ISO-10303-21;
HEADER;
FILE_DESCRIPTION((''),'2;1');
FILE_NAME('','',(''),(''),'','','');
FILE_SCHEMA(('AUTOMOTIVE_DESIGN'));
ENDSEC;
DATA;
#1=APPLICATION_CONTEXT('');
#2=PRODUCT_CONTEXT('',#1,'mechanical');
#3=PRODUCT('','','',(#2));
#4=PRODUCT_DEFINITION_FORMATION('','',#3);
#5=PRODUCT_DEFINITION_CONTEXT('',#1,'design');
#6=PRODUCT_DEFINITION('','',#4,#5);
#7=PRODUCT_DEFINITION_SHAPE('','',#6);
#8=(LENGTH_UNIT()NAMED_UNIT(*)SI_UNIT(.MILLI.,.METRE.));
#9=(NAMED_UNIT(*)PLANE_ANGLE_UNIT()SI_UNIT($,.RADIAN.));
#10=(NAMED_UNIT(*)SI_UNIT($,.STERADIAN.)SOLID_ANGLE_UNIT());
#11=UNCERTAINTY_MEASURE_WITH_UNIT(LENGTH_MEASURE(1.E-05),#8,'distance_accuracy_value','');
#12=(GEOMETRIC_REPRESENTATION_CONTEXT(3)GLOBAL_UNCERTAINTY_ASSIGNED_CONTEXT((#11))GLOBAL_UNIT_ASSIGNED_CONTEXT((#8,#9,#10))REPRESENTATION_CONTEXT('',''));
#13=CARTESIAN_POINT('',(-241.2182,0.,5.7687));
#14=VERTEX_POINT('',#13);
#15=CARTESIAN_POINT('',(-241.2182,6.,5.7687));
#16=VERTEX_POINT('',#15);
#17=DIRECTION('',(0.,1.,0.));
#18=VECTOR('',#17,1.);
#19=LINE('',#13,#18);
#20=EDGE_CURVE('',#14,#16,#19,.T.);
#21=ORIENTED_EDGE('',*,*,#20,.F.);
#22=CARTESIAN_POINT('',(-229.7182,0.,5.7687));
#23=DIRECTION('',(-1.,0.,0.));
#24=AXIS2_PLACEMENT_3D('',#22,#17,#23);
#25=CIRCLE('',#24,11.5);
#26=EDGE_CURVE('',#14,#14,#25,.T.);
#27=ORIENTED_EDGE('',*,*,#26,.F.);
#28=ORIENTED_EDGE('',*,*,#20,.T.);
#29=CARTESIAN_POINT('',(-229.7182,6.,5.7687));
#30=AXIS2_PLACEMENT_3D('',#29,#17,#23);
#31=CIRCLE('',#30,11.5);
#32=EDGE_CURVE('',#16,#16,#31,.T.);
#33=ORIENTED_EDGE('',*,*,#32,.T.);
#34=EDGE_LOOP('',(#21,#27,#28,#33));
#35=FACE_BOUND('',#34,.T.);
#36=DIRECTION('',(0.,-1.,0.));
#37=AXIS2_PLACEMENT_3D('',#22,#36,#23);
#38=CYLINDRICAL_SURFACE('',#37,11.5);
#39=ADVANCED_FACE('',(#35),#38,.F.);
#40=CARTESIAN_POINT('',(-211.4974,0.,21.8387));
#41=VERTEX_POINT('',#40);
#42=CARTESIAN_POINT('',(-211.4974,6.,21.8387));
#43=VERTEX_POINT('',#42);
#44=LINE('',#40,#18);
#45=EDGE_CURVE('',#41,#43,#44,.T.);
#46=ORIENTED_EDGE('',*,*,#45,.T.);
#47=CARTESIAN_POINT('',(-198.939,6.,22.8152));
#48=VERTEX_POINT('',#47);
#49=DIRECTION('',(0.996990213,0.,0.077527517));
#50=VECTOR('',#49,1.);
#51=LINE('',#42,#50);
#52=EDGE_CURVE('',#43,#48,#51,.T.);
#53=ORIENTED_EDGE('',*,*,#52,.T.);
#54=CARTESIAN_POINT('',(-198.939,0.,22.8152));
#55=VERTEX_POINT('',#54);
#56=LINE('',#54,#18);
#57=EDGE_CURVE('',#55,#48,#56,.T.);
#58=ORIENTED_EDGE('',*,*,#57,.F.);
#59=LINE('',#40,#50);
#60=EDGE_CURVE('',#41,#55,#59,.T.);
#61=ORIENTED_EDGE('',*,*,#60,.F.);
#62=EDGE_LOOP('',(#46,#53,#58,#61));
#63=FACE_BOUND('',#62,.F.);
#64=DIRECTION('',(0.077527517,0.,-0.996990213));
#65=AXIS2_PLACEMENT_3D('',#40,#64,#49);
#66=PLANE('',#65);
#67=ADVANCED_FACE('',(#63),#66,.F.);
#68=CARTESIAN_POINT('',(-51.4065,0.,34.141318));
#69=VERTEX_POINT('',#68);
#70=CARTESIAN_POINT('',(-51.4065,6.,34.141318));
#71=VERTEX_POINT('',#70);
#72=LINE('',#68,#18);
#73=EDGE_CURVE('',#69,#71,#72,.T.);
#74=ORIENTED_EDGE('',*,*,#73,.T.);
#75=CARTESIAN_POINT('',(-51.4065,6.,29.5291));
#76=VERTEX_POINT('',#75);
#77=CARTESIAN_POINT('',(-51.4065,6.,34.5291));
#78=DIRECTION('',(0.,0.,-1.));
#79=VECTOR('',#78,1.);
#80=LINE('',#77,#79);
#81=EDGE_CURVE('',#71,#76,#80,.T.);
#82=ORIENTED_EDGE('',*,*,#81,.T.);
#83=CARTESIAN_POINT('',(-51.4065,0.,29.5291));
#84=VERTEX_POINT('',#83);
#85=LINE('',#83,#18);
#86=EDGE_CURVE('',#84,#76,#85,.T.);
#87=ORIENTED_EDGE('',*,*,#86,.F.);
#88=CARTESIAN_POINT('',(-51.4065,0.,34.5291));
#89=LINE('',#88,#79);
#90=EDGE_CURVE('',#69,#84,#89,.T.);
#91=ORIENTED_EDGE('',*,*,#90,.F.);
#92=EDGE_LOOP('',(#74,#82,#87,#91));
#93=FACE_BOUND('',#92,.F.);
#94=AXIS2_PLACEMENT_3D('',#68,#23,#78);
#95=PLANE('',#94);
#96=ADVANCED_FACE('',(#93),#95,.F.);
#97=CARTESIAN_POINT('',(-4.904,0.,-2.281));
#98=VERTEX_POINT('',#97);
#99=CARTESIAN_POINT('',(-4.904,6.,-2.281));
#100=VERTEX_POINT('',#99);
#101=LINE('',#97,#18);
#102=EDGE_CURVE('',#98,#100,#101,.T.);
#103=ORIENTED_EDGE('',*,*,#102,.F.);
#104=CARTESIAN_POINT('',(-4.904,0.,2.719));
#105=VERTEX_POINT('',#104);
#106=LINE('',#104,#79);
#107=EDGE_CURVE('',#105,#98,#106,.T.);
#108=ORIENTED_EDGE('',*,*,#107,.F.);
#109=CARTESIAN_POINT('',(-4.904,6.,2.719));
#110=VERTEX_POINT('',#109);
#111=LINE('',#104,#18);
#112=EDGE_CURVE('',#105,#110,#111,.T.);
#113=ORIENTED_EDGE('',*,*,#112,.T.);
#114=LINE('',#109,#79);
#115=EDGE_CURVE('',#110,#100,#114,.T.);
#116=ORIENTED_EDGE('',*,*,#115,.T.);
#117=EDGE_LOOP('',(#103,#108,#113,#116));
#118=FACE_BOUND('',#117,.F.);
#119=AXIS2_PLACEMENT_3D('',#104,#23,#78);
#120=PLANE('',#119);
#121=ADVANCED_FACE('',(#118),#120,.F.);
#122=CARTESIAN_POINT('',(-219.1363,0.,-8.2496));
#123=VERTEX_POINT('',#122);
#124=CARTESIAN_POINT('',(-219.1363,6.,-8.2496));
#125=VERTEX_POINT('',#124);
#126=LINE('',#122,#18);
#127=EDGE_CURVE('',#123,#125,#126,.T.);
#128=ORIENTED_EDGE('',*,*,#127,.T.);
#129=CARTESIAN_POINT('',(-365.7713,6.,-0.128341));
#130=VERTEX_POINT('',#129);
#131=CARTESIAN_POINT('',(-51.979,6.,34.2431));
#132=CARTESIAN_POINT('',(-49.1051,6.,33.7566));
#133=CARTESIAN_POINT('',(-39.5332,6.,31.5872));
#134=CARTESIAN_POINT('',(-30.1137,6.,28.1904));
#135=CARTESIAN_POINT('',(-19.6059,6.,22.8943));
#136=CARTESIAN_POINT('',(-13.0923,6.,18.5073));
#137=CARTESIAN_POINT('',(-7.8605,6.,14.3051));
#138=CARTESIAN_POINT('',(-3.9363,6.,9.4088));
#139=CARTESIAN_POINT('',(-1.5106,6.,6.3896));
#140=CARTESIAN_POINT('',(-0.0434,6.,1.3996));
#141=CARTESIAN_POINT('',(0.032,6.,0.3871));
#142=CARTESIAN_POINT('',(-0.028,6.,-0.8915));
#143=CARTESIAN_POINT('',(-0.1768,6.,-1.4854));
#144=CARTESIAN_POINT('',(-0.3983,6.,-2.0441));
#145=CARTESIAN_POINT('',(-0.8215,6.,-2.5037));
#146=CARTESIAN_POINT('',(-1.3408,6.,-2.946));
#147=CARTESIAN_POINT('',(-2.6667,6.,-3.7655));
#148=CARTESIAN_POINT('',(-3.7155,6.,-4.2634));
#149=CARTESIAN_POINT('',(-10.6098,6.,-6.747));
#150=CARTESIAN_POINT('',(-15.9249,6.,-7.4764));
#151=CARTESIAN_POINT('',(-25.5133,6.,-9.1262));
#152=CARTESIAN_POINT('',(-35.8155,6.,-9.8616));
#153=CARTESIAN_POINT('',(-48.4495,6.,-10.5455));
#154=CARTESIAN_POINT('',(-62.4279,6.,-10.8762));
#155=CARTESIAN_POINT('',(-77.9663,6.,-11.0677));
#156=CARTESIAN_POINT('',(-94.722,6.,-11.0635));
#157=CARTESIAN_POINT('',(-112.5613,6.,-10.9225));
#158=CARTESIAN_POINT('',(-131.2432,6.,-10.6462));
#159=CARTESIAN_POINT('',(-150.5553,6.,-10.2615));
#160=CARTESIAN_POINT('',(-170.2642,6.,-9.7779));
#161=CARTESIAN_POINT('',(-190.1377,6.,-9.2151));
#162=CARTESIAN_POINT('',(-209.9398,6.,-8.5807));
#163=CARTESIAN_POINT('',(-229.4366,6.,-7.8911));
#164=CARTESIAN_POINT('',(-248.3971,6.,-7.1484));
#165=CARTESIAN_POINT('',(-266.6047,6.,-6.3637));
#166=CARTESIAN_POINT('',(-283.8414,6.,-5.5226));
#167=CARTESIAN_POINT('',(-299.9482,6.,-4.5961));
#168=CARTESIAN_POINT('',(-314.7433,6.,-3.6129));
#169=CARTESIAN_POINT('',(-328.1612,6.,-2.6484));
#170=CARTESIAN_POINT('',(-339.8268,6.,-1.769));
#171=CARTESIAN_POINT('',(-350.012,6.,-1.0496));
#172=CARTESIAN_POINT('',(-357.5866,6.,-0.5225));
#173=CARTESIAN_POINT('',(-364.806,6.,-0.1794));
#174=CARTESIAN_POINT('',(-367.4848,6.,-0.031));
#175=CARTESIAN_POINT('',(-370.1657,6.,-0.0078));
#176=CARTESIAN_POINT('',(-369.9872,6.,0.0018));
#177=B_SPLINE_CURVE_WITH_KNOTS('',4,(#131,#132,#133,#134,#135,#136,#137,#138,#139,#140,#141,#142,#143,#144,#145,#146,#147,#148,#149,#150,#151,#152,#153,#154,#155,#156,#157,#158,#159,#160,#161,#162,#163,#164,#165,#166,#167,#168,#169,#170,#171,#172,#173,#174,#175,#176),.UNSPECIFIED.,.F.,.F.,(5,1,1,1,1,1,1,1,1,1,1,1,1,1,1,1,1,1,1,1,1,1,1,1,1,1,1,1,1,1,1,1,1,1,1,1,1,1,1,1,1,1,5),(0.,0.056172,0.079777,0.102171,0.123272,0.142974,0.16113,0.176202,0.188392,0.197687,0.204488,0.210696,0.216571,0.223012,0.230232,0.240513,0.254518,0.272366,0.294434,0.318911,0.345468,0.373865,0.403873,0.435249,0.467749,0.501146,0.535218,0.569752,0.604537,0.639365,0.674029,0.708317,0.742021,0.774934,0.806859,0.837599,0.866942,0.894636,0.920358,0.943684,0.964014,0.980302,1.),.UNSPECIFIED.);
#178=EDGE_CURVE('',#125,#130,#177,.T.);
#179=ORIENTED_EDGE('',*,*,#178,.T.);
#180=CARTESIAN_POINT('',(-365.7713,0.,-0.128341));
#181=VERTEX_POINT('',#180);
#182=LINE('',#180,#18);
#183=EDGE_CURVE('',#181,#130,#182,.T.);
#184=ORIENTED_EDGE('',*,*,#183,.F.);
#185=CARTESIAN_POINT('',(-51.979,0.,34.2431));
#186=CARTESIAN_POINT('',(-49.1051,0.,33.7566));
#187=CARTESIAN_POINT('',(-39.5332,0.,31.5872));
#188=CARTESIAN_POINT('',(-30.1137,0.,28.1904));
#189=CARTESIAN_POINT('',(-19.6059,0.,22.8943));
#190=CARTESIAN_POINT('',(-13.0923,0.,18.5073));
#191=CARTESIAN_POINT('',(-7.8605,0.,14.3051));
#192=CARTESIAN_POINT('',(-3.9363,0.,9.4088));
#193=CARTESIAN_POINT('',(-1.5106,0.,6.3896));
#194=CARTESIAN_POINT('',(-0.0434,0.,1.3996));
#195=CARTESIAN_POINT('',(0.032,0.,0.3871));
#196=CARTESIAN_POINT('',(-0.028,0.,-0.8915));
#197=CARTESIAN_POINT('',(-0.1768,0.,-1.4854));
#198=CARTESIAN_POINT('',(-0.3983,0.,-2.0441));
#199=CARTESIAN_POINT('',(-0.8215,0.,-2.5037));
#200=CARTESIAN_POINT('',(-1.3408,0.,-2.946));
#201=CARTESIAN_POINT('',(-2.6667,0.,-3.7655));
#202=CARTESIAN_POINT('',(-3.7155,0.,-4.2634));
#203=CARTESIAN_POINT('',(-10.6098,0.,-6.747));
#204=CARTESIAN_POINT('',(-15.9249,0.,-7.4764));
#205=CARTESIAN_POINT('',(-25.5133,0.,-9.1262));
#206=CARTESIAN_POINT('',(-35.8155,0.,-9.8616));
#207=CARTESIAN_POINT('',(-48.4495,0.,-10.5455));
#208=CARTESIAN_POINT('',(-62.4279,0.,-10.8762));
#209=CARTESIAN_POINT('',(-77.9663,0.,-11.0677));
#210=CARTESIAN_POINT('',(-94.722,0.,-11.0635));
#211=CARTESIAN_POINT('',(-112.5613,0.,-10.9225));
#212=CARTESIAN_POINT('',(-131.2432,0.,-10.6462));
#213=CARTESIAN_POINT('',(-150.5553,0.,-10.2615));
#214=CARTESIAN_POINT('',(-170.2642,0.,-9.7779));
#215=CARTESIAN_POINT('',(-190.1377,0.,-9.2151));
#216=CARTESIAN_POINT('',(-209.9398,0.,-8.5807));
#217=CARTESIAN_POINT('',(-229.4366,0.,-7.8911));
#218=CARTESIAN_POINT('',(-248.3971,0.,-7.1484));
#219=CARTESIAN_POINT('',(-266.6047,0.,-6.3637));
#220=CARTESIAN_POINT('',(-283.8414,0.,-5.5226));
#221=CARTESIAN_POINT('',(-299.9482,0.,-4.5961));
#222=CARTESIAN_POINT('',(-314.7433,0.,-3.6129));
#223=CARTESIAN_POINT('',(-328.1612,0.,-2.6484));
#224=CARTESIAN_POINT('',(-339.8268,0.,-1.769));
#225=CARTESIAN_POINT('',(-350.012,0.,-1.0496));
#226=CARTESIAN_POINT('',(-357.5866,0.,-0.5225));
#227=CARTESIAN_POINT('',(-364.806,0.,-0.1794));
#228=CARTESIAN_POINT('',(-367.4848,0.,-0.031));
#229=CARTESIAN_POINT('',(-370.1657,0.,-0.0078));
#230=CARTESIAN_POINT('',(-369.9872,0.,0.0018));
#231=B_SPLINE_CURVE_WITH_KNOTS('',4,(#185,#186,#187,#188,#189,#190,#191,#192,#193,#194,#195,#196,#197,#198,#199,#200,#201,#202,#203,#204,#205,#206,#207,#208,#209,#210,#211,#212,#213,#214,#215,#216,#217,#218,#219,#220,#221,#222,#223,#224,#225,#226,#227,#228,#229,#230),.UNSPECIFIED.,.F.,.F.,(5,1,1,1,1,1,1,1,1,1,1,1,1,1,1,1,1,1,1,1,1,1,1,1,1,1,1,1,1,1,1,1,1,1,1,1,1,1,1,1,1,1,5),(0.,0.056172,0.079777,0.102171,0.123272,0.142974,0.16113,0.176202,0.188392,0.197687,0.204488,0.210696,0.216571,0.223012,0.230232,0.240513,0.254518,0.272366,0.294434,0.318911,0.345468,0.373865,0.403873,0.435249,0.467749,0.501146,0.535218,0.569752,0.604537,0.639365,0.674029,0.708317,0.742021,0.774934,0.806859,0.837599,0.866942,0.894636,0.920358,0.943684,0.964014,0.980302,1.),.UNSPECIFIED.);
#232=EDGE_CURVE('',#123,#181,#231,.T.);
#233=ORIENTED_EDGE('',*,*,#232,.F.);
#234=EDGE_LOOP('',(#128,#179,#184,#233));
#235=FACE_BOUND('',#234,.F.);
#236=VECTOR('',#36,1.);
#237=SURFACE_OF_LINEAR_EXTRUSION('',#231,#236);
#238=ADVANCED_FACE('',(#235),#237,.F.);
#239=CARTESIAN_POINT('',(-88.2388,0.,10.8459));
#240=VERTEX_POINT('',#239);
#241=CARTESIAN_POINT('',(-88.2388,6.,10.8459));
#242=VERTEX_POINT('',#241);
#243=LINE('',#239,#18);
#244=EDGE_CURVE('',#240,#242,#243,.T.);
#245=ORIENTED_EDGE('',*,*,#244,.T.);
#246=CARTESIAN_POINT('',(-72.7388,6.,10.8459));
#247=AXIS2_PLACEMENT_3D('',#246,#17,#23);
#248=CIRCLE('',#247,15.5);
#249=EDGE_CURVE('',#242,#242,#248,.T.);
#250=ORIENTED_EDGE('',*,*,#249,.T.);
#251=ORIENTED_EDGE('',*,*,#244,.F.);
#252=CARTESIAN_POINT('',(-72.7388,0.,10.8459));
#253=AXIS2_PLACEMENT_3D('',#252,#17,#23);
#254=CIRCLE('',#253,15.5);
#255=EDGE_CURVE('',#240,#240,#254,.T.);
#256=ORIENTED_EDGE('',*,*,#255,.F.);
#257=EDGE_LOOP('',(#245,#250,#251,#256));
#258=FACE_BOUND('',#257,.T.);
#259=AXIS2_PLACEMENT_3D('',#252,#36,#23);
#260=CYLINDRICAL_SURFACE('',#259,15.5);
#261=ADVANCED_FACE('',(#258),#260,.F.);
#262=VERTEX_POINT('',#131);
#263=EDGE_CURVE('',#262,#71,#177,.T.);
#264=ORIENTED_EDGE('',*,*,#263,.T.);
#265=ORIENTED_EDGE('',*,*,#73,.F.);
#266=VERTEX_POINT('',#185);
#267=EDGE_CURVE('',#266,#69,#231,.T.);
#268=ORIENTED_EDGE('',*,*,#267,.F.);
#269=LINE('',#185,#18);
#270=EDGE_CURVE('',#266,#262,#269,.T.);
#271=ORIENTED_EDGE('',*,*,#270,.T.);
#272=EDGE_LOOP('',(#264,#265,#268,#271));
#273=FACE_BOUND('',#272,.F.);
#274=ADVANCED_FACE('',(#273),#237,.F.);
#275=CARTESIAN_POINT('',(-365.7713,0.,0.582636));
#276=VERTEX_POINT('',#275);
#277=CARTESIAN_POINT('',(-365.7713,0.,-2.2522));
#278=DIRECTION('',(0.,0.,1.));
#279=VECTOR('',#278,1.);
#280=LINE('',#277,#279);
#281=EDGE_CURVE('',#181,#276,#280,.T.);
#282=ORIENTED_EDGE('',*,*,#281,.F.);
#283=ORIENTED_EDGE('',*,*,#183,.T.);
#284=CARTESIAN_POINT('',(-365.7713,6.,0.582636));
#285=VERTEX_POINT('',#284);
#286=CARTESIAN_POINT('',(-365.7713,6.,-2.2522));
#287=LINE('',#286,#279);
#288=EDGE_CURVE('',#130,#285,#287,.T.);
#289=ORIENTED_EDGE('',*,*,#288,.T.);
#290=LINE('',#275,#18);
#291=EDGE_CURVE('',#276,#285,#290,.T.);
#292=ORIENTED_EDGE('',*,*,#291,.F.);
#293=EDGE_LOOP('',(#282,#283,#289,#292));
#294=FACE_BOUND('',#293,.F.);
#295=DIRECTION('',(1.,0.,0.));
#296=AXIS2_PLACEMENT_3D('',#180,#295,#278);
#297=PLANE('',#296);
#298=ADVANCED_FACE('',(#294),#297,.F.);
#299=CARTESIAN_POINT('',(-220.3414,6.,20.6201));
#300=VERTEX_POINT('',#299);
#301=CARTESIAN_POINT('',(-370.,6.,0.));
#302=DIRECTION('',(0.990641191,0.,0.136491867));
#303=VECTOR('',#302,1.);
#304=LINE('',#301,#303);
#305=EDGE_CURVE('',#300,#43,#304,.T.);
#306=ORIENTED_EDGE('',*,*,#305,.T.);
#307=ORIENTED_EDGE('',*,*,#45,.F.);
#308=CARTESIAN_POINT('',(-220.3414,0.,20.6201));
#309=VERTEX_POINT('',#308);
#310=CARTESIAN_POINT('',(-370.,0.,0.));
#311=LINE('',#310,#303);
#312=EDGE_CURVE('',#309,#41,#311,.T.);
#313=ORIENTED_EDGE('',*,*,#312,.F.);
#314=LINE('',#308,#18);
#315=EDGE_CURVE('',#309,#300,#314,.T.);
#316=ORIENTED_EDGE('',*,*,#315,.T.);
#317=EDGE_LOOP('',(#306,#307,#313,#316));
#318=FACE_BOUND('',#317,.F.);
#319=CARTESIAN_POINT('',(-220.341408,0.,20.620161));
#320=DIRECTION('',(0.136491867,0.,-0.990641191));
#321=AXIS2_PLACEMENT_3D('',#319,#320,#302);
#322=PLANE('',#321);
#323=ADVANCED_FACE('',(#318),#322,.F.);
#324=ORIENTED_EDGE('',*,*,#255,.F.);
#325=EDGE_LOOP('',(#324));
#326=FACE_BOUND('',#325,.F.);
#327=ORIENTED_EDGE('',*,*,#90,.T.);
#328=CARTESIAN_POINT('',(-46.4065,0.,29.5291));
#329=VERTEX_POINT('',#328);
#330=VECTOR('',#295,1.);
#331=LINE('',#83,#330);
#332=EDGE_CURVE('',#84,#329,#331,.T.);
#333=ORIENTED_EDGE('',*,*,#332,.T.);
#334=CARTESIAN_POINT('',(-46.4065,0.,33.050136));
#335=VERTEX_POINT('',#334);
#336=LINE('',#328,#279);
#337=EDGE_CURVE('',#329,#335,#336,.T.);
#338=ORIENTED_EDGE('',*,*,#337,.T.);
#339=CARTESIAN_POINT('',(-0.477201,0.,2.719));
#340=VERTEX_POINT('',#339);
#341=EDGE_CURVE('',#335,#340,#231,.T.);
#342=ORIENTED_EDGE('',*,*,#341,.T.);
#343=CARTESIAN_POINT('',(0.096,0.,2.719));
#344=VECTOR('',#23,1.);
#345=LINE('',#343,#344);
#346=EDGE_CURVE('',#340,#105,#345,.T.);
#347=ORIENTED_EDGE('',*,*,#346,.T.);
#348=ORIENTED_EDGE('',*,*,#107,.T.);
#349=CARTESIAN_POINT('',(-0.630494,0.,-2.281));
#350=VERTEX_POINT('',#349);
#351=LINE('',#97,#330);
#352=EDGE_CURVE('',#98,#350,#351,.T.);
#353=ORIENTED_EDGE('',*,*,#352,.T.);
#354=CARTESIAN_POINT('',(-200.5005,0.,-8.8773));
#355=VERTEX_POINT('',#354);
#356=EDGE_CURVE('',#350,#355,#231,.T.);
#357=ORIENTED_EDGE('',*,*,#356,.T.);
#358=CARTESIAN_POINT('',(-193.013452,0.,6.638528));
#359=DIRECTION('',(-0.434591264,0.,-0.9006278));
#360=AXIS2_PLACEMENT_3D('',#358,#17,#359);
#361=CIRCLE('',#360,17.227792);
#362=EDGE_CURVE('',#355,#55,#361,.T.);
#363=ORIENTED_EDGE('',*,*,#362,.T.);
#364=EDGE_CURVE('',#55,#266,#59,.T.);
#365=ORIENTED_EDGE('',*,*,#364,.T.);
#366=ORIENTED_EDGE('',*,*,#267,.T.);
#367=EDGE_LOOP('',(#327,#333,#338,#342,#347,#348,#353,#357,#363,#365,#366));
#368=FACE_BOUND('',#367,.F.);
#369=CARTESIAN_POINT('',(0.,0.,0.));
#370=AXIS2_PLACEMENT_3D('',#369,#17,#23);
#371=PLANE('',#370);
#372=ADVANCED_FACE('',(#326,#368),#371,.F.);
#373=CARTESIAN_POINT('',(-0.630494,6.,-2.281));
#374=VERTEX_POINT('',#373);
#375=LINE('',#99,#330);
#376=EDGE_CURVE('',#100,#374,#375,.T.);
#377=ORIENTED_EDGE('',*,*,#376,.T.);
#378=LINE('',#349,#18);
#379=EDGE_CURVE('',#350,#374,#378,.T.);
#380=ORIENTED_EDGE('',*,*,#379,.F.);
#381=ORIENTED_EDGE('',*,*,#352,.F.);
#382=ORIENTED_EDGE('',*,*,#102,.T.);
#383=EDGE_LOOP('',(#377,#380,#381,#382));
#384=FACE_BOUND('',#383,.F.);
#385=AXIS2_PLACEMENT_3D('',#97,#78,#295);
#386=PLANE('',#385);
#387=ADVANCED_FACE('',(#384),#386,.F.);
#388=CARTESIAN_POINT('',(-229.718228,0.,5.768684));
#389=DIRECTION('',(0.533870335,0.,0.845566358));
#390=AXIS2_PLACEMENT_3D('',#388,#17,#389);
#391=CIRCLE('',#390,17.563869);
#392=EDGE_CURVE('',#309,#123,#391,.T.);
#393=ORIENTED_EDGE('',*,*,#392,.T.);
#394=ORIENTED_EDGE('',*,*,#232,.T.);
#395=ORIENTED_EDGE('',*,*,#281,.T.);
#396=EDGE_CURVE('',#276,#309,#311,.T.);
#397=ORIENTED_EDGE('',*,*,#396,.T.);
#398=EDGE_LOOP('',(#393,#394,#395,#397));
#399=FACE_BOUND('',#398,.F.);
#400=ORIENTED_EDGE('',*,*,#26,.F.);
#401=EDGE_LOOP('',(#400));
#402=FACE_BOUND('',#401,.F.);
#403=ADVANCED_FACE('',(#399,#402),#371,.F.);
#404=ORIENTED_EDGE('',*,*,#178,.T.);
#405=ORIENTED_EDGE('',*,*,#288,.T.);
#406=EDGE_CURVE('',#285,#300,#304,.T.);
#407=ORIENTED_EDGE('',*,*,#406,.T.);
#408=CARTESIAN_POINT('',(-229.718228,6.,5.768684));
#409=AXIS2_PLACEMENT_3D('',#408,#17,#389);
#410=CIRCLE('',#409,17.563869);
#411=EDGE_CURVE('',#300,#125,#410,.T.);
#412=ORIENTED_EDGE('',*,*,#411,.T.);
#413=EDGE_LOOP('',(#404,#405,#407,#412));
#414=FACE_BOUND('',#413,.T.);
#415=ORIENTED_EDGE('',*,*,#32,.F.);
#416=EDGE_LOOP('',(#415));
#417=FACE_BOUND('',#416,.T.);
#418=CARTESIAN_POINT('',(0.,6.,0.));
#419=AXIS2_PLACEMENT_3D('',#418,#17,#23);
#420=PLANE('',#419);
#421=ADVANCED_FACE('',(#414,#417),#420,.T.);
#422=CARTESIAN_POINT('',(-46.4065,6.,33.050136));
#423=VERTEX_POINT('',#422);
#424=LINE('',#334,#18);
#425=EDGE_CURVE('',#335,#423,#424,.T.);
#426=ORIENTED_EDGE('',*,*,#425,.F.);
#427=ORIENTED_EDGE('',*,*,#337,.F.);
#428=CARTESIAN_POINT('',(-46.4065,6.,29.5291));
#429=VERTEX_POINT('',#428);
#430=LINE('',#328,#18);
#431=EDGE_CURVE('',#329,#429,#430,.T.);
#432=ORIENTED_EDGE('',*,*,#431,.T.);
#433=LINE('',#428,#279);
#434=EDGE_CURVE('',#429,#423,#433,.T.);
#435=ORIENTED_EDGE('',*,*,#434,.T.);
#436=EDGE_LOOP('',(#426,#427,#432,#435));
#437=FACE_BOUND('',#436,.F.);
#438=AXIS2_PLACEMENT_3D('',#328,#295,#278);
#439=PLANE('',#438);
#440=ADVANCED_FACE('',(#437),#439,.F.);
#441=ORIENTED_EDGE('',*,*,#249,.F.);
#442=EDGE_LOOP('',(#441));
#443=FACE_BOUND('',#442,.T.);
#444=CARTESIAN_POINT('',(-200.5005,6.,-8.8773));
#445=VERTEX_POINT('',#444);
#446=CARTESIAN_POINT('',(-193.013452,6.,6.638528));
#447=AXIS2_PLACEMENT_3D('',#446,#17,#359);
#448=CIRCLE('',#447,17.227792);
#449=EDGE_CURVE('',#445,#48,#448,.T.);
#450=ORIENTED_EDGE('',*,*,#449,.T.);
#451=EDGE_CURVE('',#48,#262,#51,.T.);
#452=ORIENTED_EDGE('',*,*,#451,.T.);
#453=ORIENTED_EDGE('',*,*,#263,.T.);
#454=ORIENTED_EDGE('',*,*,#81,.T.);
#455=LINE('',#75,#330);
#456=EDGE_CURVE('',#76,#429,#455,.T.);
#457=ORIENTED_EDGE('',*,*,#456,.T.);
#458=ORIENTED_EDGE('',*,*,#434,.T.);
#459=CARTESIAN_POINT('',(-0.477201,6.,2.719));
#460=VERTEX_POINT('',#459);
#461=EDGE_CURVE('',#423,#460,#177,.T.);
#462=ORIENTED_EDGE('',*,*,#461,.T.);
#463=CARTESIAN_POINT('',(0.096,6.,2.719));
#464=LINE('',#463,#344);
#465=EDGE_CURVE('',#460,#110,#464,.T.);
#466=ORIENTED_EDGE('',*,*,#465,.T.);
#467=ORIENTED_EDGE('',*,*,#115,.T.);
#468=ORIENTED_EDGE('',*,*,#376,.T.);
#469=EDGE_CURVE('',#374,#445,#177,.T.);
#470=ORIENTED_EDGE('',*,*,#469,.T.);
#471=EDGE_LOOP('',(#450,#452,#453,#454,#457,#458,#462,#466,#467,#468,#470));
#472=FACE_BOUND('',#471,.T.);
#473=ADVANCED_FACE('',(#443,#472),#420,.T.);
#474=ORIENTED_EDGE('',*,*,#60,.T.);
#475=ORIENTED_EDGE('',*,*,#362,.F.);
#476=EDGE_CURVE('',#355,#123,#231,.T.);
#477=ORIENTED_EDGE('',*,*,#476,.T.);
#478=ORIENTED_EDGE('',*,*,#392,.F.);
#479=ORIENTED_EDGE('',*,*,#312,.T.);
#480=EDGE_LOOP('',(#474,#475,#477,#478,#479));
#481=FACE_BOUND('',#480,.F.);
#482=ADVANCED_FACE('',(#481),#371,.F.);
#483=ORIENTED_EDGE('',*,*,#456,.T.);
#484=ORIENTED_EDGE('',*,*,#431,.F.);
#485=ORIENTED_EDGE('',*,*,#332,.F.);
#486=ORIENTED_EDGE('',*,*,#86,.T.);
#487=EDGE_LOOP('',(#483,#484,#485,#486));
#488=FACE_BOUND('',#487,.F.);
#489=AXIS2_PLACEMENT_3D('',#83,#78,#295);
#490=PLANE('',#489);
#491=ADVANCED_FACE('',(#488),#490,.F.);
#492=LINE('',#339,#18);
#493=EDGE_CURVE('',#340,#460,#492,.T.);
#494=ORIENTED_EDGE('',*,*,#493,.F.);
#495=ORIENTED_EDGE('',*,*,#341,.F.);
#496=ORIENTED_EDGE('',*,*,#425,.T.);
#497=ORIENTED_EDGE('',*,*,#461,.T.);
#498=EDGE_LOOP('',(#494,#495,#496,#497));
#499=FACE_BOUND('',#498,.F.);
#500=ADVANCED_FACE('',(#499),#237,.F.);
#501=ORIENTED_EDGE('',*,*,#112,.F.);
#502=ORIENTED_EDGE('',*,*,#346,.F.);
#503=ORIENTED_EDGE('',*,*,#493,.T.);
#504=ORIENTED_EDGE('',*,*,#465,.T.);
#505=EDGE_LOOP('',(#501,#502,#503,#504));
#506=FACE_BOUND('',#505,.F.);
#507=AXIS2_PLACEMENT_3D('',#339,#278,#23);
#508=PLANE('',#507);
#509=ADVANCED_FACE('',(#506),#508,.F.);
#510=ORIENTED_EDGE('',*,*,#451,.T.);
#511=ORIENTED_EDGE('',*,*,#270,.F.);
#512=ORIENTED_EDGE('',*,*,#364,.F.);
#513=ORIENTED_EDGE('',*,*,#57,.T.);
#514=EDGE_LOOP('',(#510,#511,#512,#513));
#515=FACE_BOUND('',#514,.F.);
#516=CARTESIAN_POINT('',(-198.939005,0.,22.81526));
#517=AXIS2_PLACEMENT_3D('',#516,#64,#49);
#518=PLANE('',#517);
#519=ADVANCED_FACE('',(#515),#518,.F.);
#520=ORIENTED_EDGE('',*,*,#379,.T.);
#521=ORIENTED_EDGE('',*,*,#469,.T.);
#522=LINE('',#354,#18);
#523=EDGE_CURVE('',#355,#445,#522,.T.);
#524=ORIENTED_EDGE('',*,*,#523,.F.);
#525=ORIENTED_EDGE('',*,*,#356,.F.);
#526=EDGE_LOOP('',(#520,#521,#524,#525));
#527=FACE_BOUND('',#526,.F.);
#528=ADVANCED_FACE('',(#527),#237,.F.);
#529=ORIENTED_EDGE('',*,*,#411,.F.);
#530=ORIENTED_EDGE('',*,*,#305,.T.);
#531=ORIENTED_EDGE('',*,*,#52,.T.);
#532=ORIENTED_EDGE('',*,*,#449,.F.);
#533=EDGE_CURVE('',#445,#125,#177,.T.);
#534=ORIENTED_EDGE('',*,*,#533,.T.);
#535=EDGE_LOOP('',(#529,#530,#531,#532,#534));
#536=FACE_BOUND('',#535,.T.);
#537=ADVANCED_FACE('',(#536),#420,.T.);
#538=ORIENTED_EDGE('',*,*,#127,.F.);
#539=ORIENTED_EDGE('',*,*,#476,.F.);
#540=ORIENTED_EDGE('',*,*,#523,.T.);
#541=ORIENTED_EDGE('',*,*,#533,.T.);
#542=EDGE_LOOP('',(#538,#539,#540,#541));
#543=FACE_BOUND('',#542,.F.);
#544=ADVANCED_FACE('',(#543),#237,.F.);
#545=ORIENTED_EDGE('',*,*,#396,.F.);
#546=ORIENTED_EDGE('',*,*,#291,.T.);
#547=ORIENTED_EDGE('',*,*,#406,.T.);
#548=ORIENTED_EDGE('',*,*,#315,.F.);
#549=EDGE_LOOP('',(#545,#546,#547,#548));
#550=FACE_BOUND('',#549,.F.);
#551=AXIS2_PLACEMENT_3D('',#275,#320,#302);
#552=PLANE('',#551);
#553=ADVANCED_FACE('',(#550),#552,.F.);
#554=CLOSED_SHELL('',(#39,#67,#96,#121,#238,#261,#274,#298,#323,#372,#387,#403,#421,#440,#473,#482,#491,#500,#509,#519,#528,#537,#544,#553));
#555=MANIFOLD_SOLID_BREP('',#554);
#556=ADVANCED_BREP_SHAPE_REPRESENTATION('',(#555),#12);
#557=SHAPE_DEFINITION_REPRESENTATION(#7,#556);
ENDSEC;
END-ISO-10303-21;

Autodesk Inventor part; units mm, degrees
ref_plane "YZ Plane" through (0, 0, 0) normal (1, 0, 0) x (0, 1, 0)
ref_plane "XZ Plane" through (0, 0, 0) normal (0, 1, 0) x (-1, 0, 0)
ref_plane "XY Plane" through (0, 0, 0) normal (0, 0, 1) x (1, 0, 0)
sketch "Sketch1" plane through (0, 0, 0) normal (0, 1, 0) x (-1, 0, 0)
  spline S0 degree 4 poles (51.979, 34.2431) (49.1051, 33.7566) (39.5332, 31.5872) (30.1137, 28.1904) (19.6059, 22.8943) (13.0923, 18.5073) (7.8605, 14.3051) (3.9363, 9.4088) (1.5106, 6.3896) (0.0434, 1.3996) (-0.032, 0.3871) (0.028, -0.8915) (0.1768, -1.4854) (0.3983, -2.0441) (0.8215, -2.5037) (1.3408, -2.946) (2.6667, -3.7655) (3.7155, -4.2634) (10.6098, -6.747) (15.9249, -7.4764) (25.5133, -9.1262) (35.8155, -9.8616) (48.4495, -10.5455) (62.4279, -10.8762) (77.9663, -11.0677) (94.722, -11.0635) (112.5613, -10.9225) (131.2432, -10.6462) (150.5553, -10.2615) (170.2642, -9.7779) (190.1377, -9.2151) (209.9398, -8.5807) (229.4366, -7.8911) (248.3971, -7.1484) (266.6047, -6.3637) (283.8414, -5.5226) (299.9482, -4.5961) (314.7433, -3.6129) (328.1612, -2.6484) (339.8268, -1.769) (350.012, -1.0496) (357.5866, -0.5225) (364.806, -0.1794) (367.4848, -0.031) (370.1657, -0.0078) (369.9872, 0.0018) knots 0 0 0 0 0 0.056172 0.079777 0.102171 0.123272 0.142974 0.16113 0.176202 0.188392 0.197687 0.204488 0.210696 0.216571 0.223012 0.230232 0.240513 0.254518 0.272366 0.294434 0.318911 0.345468 0.373865 0.403873 0.435249 0.467749 0.501146 0.535218 0.569752 0.604537 0.639365 0.674029 0.708317 0.742021 0.774934 0.806859 0.837599 0.866942 0.894636 0.920358 0.943684 0.964014 0.980302 1 1 1 1 1
  circle A0 centre (370, 0) radius 160 construction
  line L0 (370, 0) -> (211.4974, 21.8387)
  circle A1 centre (211.4974, 21.8387) radius 160 construction
  line L1 (211.4974, 21.8387) -> (51.979, 34.2431)
  line L2 (-0.096, 2.719) -> (4.904, 2.719)
  line L3 (4.904, 2.719) -> (4.904, -2.281)
  line L4 (4.904, -2.281) -> (-0.096, -2.281)
  line L5 (-0.096, -2.281) -> (-0.096, 2.719)
  circle A2 centre (369.9872, 0.0018) radius 3 construction
  line L6 (365.7713, 2.7478) -> (370.7713, 2.7478)
  line L7 (370.7713, 2.7478) -> (370.7713, -2.2522)
  line L8 (370.7713, -2.2522) -> (365.7713, -2.2522)
  line L9 (365.7713, -2.2522) -> (365.7713, 2.7478)
  line L10 (211.4974, 21.8387) -> (210.0997, -8.5616) construction
  arc A3 (200.5005, -8.8773) -> (198.939, 22.8152) centre (193.0135, 6.6385) ccw
  arc A4 (220.3414, 20.6201) -> (219.1363, -8.2496) centre (229.7182, 5.7687) ccw
  line L11 (46.4065, 34.5291) -> (51.4065, 34.5291)
  line L12 (51.4065, 34.5291) -> (51.4065, 29.5291)
  line L13 (51.4065, 29.5291) -> (46.4065, 29.5291)
  line L14 (46.4065, 29.5291) -> (46.4065, 34.5291)
  line L15 (46.4065, 34.5291) -> (51.4065, 29.5291) construction
  line L16 (51.4065, 34.5291) -> (46.4065, 29.5291) construction
  circle A5 centre (229.7182, 5.7687) radius 11.5
  circle A6 centre (229.7182, 5.7687) radius 4
  circle A7 centre (72.7388, 10.8459) radius 15.5
  point P0 (0, 0)
  point P1 (370, 0)
  point P2 (35.937, 30.0257)
  point P3 (27.0238, 26.4761)
  point P4 (19.2974, 22.4624)
  point P5 (12.8156, 18.139)
  point P6 (7.6237, 13.6489)
  point P7 (3.7499, 9.1521)
  point P8 (1.2115, 4.8535)
  point P9 (0.0668, 1.0195)
  point P10 (0.0003, -0.0638)
  point P11 (0.0755, -0.9849)
  point P12 (0.2106, -1.5356)
  point P13 (0.4302, -2.0122)
  point P14 (0.7739, -2.4345)
  point P15 (1.2488, -2.8423)
  point P16 (2.1566, -3.4383)
  point P17 (3.2773, -4.0196)
  point P18 (8.2772, -5.8071)
  point P19 (15.3669, -7.4261)
  point P20 (24.3167, -8.7706)
  point P21 (35.0526, -9.7678)
  point P22 (47.5438, -10.4262)
  point P23 (61.6814, -10.8267)
  point P24 (77.2847, -11.0213)
  point P25 (94.162, -11.0379)
  point P26 (112.1091, -10.9014)
  point P27 (130.911, -10.6315)
  point P28 (150.3435, -10.2474)
  point P29 (170.176, -9.7646)
  point P30 (190.1737, -9.1986)
  point P31 (229.7182, -7.8653)
  point P32 (248.7963, -7.1166)
  point P33 (267.1071, -6.3194)
  point P34 (284.4371, -5.4606)
  point P35 (300.619, -4.5258)
  point P36 (315.5184, -3.5432)
  point P37 (328.988, -2.5786)
  point P38 (340.8625, -1.7041)
  point P39 (350.9622, -0.9861)
  point P40 (359.0984, -0.4682)
  point P41 (365.0855, -0.1602)
  point P42 (368.7597, -0.0285)
  point P43 (370, 0)
  point P44 (0.4773, 2.719)
  point P45 (0.6305, -2.281)
  point P46 (365.7713, -0.1283)
  point P47 (368.4073, 0.2194)
  point P48 (48.9065, 32.0291)
  point P49 (112.1091, -11.9485)
  point P50 (365.7713, 0.5826)
  point P51 (51.4065, 34.1414)
  point P52 (46.4065, 33.0501)
  dimension "d5" = 160
  dimension "d8" = 160
  dimension "d17" = 5
  dimension "d18" = 5
  dimension "d25" = 6
  dimension "d26" = 5
  dimension "d27" = 5
  dimension "d36" = 5
  dimension "d37" = 5
  dimension "d41" = 23
  dimension "d50" = 368.7594
  dimension "d60" = 8
  dimension "d62" = 31
extrude "Extrusion4" add sketch "Sketch1" along normal blind 6 contours A3 L1 L0 A4 S0 | S0 L4 L3 L2 L14 L13 L12 L1 A3 | A4 L0 L9 S0
properties part number "airfoil blueprint"
